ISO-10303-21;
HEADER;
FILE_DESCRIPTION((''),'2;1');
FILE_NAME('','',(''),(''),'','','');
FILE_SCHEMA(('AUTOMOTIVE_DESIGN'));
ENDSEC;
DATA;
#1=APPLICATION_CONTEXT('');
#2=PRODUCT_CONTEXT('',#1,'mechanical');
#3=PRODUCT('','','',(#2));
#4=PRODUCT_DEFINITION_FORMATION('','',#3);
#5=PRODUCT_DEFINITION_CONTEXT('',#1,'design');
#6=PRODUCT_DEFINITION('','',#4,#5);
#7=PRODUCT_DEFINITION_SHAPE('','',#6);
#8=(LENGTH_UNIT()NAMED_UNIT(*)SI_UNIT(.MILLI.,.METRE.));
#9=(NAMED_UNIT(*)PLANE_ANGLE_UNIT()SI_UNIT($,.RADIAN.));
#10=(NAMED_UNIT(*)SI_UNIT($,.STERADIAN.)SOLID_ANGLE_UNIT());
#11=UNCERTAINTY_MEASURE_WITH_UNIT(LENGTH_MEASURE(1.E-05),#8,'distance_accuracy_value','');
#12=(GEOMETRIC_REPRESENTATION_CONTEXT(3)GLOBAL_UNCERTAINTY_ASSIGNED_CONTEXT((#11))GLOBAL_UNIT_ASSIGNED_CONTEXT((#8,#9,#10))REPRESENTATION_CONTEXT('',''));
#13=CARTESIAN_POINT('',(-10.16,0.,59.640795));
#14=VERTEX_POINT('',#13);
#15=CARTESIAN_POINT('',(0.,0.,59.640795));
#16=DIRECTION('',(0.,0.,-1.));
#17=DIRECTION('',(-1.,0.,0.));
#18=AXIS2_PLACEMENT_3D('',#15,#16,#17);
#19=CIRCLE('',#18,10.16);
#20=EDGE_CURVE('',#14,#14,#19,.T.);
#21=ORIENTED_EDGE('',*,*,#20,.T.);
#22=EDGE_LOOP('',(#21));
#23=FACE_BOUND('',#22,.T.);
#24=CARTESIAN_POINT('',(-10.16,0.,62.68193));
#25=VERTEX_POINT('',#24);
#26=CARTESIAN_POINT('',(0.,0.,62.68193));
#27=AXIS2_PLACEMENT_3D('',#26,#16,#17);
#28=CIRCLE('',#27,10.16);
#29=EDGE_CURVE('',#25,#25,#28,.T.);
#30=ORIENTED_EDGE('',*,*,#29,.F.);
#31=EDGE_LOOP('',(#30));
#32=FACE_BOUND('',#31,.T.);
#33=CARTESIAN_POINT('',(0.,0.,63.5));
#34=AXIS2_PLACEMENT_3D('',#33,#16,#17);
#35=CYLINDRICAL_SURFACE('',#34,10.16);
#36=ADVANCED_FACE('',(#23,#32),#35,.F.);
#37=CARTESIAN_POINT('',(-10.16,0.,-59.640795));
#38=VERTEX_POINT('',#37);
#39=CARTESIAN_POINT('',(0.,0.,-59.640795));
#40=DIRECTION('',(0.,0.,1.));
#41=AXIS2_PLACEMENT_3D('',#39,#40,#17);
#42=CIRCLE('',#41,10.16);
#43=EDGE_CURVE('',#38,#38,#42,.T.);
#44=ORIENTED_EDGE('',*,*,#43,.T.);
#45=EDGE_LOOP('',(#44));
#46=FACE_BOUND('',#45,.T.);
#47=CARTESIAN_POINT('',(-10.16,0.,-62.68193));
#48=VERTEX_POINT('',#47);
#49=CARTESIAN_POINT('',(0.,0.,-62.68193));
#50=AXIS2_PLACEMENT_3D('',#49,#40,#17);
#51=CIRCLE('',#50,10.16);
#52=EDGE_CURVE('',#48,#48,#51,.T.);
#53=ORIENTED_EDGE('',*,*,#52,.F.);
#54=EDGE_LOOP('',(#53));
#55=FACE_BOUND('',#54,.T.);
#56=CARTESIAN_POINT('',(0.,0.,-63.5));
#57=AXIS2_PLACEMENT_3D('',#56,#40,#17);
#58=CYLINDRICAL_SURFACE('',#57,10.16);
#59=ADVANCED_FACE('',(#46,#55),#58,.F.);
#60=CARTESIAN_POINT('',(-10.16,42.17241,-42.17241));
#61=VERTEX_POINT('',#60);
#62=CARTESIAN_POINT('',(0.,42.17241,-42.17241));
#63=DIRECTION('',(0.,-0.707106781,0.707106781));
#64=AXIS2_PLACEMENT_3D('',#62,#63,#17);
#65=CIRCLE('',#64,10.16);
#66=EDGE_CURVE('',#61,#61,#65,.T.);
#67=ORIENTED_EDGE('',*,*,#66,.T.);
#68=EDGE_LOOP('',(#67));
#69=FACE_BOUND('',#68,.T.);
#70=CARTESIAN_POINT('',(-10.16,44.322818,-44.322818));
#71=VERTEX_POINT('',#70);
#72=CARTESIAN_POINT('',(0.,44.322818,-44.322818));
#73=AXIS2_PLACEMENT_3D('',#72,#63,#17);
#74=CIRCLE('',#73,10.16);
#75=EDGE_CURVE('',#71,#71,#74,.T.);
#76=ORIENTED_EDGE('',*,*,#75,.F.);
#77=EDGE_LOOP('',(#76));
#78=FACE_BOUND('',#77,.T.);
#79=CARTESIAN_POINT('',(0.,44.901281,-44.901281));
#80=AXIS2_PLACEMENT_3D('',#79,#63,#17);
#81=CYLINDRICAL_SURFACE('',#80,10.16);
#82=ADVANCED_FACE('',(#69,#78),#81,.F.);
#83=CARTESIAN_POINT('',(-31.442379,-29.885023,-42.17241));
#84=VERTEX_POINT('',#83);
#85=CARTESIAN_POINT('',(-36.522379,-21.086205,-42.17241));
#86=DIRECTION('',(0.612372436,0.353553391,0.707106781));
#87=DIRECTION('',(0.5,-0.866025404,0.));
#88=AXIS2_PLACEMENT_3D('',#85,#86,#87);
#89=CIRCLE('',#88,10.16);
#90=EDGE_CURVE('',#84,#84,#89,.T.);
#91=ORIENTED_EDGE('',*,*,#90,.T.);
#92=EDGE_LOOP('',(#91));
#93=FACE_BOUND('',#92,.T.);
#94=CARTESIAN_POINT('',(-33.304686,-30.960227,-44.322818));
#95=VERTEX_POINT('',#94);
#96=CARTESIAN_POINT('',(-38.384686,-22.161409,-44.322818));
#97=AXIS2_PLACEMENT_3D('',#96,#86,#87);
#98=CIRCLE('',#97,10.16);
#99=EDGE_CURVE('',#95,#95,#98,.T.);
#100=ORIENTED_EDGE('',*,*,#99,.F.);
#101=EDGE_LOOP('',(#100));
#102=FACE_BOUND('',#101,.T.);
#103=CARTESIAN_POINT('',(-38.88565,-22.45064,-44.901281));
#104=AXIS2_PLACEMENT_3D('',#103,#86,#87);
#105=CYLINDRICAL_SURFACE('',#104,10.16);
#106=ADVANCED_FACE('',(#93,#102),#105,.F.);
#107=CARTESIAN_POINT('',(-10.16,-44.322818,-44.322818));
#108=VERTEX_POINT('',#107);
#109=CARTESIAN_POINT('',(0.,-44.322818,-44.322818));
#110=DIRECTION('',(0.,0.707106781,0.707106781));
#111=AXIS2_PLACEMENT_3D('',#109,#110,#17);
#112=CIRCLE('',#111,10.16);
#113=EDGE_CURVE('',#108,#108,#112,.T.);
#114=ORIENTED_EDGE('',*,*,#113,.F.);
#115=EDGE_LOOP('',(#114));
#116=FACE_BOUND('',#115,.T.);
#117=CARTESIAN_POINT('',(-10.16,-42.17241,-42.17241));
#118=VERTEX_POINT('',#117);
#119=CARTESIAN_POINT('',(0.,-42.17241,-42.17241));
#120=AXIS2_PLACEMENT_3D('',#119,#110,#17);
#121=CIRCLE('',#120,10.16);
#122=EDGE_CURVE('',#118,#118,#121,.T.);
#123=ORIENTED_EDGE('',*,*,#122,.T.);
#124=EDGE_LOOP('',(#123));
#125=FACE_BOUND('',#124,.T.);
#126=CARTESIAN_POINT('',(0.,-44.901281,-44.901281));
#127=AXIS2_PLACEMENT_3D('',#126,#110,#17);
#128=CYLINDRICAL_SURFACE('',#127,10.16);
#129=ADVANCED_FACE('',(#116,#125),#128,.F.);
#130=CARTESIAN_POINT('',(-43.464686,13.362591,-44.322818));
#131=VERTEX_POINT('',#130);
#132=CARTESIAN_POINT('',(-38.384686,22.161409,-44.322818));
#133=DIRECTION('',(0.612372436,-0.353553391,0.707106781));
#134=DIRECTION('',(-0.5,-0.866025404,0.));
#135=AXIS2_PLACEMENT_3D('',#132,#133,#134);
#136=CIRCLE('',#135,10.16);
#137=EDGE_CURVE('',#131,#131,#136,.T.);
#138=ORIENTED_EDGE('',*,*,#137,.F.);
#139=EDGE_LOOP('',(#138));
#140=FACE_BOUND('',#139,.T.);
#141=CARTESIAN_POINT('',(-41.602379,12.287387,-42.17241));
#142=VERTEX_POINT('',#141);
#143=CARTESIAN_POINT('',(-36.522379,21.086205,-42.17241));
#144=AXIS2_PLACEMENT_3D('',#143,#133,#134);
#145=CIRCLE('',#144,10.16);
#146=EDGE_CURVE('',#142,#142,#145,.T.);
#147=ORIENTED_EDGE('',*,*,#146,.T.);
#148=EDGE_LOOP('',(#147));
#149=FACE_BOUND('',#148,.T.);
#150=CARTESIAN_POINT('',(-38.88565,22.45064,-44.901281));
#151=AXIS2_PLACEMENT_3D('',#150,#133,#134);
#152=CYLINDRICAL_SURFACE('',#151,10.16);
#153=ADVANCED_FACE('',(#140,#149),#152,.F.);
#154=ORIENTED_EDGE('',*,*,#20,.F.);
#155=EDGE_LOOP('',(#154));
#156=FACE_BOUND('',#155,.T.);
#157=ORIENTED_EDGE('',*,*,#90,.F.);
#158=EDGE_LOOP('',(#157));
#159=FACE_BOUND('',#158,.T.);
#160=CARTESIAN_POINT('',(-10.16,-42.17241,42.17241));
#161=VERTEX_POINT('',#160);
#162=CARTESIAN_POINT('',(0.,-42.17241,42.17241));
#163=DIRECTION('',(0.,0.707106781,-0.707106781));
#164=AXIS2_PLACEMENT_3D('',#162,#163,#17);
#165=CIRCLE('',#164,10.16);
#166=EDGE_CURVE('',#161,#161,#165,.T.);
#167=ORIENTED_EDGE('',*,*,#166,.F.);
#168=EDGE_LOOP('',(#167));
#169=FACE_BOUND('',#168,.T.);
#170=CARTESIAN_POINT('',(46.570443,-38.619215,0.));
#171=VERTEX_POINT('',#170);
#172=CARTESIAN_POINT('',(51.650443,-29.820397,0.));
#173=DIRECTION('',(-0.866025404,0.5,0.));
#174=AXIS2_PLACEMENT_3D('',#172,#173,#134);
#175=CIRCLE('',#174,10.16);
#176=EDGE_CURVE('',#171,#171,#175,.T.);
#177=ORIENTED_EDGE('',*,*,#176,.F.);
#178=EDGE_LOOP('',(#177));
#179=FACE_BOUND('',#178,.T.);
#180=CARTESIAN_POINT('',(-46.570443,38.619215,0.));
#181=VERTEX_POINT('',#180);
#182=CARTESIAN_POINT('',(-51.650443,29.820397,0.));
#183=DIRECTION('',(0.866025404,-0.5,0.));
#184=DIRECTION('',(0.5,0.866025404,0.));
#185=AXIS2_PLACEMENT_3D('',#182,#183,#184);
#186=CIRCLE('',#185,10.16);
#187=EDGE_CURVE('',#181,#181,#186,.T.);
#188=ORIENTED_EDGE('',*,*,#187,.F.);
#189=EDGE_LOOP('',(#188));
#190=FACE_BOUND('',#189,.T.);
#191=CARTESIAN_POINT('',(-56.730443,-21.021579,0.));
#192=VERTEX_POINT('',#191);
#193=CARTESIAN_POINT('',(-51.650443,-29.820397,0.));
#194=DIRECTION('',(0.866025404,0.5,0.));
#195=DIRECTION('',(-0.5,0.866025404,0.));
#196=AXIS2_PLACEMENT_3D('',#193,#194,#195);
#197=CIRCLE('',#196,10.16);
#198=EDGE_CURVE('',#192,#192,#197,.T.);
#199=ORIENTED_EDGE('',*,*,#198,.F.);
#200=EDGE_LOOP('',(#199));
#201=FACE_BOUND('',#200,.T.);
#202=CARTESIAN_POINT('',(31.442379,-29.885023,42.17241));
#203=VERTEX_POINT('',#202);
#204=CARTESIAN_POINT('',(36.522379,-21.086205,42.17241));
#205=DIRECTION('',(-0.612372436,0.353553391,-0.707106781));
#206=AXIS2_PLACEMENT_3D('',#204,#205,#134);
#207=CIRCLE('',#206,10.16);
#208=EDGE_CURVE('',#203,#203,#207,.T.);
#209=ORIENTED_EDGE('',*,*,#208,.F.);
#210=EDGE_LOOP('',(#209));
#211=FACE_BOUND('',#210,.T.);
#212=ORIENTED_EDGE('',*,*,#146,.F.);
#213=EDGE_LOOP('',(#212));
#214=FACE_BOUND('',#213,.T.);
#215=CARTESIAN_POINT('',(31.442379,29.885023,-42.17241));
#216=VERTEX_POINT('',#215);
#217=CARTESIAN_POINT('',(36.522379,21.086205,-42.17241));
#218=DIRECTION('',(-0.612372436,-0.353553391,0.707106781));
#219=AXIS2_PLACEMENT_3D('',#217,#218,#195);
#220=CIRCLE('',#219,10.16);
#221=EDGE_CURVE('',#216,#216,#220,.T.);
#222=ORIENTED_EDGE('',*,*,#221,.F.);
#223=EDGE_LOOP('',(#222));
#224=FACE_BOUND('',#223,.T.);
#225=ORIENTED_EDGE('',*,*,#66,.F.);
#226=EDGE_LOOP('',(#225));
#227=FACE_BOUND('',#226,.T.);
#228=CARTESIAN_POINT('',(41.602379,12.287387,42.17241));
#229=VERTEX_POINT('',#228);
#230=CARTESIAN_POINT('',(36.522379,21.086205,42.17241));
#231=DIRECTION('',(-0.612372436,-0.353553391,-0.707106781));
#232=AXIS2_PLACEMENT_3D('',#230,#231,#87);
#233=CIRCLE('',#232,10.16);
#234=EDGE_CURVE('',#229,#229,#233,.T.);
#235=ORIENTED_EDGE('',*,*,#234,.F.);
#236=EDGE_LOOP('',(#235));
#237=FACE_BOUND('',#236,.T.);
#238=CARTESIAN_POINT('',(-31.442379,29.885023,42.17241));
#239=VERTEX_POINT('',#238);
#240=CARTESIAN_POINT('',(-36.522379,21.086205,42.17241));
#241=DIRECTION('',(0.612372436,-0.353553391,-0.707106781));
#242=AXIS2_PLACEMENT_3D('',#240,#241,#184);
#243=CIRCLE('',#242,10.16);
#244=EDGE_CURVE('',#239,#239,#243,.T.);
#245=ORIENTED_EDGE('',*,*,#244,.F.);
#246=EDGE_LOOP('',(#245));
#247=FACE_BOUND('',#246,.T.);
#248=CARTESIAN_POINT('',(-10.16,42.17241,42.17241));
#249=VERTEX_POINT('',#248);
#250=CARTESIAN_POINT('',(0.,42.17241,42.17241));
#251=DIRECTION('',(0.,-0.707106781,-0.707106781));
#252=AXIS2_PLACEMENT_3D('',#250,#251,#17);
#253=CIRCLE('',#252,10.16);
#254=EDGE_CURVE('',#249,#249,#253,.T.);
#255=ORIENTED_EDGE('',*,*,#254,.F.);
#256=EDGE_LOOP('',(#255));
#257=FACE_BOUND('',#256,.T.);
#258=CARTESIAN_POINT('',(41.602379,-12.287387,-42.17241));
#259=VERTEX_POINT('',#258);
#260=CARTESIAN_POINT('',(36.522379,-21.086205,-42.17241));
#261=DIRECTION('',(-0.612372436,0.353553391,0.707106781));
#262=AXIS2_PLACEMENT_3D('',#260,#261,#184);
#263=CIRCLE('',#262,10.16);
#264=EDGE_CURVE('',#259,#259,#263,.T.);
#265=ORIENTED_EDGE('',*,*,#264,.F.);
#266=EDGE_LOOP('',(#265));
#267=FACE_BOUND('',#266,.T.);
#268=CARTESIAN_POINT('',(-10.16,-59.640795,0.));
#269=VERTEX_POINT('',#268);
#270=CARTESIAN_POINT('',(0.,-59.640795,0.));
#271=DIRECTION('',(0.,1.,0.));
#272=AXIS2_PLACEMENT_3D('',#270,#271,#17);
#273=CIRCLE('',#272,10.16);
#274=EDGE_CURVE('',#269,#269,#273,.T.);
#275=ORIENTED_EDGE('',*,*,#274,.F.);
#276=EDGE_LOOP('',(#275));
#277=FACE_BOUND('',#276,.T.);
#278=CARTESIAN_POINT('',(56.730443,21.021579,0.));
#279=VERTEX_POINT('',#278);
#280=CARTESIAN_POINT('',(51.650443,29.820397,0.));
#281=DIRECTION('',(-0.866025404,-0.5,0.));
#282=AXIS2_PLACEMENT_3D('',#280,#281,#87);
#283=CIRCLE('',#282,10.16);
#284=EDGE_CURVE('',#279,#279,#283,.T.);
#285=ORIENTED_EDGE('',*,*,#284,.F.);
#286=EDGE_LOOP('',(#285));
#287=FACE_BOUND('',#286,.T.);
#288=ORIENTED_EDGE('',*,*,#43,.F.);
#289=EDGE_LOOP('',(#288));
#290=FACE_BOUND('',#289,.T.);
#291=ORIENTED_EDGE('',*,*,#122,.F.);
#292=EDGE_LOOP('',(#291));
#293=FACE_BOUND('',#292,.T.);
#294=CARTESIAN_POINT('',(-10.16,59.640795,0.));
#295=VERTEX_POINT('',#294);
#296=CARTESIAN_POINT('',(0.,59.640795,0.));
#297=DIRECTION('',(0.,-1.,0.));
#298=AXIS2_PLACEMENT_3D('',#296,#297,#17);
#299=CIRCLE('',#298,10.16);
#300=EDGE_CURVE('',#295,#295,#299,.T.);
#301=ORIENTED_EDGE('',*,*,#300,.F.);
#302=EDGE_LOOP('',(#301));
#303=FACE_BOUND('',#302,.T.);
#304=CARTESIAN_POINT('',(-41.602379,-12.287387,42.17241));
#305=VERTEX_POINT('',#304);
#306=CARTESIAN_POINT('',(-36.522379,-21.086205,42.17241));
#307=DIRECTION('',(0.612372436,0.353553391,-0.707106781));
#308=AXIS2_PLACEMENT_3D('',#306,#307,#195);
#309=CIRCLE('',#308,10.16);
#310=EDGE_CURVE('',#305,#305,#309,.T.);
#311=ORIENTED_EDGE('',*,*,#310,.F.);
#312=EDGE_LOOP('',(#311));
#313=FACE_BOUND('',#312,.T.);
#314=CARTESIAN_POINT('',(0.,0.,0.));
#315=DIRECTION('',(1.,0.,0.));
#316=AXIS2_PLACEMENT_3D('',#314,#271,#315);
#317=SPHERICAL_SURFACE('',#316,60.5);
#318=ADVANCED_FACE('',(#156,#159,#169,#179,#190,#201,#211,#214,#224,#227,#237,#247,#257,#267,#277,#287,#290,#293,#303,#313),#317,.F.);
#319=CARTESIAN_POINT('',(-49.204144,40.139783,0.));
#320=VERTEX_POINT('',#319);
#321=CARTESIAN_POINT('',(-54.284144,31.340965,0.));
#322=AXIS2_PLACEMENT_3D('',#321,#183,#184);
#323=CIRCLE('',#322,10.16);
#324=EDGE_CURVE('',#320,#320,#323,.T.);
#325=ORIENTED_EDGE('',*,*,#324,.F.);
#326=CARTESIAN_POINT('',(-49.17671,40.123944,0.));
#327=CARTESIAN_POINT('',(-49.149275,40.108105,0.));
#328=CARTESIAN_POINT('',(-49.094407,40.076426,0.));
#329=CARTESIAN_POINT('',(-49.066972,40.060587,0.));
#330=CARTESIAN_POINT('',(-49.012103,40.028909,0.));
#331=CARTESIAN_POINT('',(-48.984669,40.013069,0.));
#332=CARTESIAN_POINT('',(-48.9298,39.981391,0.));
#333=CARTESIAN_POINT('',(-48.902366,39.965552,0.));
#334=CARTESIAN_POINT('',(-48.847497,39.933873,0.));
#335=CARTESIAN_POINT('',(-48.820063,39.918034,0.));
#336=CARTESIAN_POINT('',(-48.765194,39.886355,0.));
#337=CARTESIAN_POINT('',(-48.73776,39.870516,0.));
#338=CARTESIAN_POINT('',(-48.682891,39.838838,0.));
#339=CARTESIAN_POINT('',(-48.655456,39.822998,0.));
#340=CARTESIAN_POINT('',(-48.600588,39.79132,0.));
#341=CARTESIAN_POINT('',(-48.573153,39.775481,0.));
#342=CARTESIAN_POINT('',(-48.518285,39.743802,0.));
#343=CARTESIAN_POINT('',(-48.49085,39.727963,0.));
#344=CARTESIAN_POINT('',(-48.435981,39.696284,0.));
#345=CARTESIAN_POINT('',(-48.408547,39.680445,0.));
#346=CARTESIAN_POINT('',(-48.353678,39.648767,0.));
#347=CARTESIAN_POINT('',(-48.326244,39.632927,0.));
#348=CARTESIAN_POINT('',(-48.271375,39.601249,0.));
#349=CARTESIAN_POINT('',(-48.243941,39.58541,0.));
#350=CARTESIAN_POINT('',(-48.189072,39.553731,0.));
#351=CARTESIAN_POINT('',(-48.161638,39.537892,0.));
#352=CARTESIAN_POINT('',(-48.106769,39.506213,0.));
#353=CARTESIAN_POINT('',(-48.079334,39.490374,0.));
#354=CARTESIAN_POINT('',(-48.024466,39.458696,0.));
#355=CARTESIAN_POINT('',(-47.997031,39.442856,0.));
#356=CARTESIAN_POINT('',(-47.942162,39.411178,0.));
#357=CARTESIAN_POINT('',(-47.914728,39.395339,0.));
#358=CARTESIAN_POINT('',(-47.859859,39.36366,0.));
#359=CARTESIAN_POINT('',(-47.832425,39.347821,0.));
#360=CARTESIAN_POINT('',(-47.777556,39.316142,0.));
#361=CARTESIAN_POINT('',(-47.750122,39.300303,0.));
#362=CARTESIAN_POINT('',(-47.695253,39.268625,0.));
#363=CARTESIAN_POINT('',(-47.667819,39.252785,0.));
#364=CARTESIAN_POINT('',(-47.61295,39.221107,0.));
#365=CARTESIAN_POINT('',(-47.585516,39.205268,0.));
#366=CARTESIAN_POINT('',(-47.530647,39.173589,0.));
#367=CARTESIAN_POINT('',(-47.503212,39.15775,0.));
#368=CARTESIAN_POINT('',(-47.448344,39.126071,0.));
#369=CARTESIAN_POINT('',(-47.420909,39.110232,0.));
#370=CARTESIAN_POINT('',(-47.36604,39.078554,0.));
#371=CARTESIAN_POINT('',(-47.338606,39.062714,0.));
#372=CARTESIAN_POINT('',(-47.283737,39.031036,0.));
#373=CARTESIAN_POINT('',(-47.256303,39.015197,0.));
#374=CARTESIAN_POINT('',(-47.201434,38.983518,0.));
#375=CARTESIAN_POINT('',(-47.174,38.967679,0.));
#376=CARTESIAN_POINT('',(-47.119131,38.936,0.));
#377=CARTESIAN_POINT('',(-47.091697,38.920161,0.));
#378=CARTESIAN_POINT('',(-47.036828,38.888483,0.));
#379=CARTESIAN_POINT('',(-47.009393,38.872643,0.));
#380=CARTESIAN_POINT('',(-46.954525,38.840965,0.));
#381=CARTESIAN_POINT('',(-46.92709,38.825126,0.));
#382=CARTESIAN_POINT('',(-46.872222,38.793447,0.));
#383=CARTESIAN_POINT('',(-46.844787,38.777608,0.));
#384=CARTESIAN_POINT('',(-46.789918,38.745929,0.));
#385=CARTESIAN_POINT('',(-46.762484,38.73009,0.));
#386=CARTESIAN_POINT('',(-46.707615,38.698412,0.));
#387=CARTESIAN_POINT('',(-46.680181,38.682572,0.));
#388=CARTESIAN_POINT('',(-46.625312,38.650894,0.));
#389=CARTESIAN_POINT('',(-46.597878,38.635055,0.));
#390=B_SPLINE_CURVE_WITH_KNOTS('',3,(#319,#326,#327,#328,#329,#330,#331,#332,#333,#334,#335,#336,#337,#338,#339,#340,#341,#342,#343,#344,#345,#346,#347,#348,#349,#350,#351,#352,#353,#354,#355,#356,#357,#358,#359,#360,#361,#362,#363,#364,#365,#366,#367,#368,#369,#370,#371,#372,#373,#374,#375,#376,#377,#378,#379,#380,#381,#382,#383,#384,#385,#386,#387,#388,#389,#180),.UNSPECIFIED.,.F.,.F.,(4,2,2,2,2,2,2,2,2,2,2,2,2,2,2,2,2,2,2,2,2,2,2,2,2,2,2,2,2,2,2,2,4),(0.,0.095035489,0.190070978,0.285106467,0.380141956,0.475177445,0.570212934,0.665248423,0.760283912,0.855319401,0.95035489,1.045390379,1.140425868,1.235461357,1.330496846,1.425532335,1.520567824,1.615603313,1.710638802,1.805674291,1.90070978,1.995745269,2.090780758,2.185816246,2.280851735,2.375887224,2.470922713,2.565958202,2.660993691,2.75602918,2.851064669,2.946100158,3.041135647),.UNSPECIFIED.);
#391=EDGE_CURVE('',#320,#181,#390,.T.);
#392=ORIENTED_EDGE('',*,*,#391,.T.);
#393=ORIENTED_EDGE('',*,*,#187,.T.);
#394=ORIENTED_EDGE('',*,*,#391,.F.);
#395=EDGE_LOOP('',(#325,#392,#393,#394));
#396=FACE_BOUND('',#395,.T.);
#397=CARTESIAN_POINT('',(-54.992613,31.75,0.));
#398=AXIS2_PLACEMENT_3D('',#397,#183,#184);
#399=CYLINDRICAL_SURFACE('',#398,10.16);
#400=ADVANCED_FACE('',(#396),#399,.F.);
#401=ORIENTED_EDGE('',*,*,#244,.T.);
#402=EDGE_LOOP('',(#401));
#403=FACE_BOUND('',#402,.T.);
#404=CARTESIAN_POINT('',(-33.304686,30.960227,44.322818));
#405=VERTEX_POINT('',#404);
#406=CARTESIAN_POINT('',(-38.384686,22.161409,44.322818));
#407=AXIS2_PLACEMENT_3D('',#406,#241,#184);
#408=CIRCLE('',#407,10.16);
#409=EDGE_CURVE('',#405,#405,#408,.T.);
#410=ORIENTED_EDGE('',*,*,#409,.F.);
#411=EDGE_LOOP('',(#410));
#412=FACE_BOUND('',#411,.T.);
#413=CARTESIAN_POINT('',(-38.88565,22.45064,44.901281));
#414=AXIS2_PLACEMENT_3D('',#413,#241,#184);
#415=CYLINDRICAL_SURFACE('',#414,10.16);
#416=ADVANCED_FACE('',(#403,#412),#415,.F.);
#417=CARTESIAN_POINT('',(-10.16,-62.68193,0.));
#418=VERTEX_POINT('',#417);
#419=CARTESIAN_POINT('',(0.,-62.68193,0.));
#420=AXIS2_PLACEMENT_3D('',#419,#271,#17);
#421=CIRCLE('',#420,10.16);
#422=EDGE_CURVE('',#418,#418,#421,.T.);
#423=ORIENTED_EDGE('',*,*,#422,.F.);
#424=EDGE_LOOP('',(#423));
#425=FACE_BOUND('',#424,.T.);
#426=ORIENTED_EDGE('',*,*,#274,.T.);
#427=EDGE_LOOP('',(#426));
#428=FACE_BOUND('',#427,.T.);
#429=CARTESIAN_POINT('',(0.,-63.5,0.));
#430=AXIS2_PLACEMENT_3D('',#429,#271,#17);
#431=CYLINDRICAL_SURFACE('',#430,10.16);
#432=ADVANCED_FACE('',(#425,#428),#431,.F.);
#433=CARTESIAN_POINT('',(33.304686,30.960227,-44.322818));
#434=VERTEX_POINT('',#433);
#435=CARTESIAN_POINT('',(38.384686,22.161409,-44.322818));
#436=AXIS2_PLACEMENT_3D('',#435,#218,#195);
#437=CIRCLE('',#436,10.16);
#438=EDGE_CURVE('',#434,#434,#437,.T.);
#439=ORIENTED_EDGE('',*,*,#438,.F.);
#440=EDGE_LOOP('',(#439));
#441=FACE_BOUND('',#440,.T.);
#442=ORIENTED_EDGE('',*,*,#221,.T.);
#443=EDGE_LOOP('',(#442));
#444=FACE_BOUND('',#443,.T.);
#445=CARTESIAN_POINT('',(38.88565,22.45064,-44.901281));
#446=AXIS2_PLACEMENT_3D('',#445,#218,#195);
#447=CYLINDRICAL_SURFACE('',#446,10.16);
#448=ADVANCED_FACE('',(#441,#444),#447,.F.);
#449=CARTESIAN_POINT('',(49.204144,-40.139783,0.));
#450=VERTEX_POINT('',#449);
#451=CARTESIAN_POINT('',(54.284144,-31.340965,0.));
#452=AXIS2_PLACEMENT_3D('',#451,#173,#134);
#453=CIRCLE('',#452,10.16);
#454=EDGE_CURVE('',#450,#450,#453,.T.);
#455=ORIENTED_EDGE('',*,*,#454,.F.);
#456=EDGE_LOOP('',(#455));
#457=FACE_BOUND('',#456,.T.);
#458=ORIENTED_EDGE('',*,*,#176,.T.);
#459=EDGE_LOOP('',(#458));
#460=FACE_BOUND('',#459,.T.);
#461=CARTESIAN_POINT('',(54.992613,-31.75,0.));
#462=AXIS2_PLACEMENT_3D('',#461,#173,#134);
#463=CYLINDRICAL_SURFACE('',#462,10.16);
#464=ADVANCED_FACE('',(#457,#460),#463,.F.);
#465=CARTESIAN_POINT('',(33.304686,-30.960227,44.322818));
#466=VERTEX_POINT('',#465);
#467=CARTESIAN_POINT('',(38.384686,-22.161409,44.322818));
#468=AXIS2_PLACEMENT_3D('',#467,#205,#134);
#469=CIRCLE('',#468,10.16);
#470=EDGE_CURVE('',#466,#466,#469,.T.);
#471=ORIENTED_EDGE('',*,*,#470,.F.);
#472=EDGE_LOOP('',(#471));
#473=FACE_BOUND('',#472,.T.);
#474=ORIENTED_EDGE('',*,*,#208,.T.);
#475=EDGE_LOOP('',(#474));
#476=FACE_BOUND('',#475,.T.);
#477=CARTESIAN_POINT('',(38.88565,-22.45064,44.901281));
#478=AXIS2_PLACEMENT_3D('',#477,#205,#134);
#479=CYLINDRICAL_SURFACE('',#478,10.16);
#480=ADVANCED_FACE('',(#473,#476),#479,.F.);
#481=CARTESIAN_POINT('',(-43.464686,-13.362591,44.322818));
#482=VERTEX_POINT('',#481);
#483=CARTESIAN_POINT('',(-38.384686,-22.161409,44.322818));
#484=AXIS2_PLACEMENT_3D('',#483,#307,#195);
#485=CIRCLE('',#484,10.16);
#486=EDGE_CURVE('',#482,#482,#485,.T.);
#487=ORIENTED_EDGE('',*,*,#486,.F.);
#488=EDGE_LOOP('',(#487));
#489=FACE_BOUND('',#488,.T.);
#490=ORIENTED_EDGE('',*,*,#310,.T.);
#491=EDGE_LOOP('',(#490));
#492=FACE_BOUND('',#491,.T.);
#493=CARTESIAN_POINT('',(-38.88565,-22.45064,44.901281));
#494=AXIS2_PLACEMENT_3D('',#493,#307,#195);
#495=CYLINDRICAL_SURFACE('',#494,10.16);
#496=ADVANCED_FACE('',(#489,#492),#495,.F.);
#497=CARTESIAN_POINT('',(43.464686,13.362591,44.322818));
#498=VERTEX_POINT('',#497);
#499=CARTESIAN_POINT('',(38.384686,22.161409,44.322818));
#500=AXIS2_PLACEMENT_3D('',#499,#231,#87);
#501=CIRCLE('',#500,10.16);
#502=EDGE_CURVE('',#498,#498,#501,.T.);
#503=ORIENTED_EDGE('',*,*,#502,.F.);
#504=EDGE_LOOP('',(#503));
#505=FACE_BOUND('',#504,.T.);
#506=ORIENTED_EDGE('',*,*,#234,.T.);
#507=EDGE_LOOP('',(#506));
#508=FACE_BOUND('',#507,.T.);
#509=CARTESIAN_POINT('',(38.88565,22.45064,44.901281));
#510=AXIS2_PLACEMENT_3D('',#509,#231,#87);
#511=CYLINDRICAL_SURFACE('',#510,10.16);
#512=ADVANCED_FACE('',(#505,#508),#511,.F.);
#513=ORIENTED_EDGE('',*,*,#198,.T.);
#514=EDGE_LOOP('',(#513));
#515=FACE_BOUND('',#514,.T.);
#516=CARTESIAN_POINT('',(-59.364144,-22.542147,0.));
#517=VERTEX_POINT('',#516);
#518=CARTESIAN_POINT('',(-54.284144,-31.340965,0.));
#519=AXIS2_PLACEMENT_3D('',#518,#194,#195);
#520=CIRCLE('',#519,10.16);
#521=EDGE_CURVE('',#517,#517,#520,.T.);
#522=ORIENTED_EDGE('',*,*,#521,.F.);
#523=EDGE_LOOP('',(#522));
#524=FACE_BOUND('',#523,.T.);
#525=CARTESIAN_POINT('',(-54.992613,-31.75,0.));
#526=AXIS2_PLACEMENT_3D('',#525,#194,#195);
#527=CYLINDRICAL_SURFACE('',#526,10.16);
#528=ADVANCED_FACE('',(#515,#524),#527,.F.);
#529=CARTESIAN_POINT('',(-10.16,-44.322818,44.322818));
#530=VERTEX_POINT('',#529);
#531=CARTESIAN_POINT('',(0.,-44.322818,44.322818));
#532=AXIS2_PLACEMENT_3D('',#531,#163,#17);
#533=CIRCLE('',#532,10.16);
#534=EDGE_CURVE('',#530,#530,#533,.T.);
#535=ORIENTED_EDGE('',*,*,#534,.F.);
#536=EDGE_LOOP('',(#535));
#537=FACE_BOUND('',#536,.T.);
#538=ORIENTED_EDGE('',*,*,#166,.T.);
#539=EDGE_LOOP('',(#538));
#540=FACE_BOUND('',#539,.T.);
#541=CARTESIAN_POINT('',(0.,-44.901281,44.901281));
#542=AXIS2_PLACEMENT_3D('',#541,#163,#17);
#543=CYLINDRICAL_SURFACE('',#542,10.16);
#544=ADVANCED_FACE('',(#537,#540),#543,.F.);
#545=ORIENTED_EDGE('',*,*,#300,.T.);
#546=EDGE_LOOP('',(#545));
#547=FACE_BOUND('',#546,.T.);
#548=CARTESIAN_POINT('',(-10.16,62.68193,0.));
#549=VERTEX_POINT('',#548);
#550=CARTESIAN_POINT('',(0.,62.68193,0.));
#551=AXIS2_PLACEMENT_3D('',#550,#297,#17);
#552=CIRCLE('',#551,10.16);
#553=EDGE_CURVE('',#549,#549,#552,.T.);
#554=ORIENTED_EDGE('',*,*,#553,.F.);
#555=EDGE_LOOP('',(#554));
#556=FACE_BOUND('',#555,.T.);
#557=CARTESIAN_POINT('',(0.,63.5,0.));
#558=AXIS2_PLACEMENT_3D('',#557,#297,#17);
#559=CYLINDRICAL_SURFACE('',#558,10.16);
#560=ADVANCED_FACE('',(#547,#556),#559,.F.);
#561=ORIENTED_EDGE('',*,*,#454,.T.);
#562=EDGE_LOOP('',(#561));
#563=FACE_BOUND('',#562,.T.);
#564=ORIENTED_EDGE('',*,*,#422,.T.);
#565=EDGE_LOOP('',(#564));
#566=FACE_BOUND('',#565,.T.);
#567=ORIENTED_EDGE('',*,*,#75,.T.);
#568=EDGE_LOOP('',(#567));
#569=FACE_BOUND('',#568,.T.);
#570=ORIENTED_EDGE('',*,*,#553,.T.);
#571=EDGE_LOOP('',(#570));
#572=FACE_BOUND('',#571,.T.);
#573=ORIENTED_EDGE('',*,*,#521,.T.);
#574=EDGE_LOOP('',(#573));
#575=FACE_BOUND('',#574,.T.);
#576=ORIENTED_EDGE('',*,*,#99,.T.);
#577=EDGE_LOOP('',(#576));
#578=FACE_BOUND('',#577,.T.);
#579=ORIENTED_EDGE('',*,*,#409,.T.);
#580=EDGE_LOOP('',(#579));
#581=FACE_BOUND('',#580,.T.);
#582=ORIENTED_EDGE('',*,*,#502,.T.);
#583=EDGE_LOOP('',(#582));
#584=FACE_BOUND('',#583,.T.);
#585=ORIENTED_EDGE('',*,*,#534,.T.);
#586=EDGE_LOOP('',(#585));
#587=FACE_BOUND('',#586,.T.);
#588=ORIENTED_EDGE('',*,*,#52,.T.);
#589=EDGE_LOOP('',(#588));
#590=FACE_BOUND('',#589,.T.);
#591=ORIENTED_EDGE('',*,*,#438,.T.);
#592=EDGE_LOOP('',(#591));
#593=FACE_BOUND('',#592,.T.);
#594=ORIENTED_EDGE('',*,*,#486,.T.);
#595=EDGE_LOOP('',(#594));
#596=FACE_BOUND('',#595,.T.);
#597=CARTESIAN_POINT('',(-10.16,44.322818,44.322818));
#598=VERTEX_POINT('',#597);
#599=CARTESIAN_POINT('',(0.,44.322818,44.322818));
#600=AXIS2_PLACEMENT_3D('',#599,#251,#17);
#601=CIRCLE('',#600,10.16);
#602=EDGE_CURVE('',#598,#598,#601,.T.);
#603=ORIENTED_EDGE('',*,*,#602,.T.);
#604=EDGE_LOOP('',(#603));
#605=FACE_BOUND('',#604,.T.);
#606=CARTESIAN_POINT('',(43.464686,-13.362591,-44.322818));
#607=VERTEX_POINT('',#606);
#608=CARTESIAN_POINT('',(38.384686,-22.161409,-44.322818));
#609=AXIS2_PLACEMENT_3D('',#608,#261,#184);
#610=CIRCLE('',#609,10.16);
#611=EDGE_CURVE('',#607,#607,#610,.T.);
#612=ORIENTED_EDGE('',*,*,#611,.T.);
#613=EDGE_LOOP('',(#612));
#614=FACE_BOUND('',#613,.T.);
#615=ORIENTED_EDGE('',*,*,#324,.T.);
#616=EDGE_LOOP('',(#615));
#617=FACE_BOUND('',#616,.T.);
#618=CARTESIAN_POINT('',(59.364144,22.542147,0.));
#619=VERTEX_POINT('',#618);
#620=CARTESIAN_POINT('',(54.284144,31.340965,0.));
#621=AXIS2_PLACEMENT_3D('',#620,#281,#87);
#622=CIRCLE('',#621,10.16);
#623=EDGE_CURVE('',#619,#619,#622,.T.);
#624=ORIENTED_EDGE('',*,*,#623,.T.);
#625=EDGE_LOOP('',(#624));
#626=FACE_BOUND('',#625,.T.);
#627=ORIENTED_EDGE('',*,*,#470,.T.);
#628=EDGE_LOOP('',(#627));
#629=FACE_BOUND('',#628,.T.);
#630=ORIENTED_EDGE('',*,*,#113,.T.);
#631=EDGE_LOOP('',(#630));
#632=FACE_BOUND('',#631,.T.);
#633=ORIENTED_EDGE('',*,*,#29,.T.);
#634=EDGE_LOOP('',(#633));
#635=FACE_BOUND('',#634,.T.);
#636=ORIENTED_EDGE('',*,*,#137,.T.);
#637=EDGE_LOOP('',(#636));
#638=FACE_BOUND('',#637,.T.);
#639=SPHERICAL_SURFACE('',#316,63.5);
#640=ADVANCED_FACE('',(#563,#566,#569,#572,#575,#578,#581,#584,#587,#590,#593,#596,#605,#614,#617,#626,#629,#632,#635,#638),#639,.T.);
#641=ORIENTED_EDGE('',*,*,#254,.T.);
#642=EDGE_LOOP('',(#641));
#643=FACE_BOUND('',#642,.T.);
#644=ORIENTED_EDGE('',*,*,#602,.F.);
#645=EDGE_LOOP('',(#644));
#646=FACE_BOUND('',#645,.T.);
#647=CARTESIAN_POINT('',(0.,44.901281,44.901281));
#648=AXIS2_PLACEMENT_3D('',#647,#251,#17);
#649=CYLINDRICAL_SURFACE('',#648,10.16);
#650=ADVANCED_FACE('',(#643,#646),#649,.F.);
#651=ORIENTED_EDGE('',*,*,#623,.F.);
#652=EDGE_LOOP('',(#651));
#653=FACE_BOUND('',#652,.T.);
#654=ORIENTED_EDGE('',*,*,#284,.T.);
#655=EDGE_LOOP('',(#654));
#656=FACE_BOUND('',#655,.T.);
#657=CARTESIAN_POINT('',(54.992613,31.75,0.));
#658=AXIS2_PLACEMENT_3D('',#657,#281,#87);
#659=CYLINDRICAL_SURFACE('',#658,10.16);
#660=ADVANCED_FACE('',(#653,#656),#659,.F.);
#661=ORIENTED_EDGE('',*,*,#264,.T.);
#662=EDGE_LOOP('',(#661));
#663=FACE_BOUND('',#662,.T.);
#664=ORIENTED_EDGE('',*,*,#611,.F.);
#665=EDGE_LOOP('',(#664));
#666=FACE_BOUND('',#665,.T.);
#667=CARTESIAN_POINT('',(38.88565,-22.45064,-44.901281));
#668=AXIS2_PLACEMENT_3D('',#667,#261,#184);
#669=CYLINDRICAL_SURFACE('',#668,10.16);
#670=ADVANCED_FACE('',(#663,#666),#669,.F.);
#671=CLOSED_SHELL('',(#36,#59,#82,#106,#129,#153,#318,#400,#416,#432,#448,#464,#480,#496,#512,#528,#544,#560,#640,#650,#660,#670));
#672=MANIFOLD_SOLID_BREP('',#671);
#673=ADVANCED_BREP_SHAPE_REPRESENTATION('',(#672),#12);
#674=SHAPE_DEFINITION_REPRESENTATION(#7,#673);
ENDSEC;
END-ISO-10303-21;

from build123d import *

# Parameters (mm, degrees)
SKETCH2_R                     = 10.16
CUT_EXTRUDE1_DEPTH            = 110.985226281
CIRPATTERN29_COUNT            = 8
CIRPATTERN30_COPY_1_SKETCH_R  = 10.16
CIRPATTERN30_COPY_1_DEPTH     = 110.985226281
CIRPATTERN30_COPY_2_SKETCH_R  = 10.16
CIRPATTERN30_COPY_2_DEPTH     = 110.985226281
CIRPATTERN30_COPY_3_SKETCH_R  = 10.16
CIRPATTERN30_COPY_3_DEPTH     = 110.985226281
CIRPATTERN30_COPY_4_SKETCH_R  = 10.16
CIRPATTERN30_COPY_4_DEPTH     = 110.985226281
CIRPATTERN30_COPY_5_SKETCH_R  = 10.16
CIRPATTERN30_COPY_5_DEPTH     = 110.985226281
CIRPATTERN30_COPY_6_SKETCH_R  = 10.16
CIRPATTERN30_COPY_6_DEPTH     = 110.985226281
CIRPATTERN30_COPY_7_SKETCH_R  = 10.16
CIRPATTERN30_COPY_7_DEPTH     = 110.985226281
CIRPATTERN30_COPY_8_SKETCH_R  = 10.16
CIRPATTERN30_COPY_8_DEPTH     = 110.985226281
CIRPATTERN30_COPY_9_SKETCH_R  = 10.16
CIRPATTERN30_COPY_9_DEPTH     = 110.985226281
CIRPATTERN30_COPY_10_SKETCH_R = 10.16
CIRPATTERN30_COPY_10_DEPTH    = 110.985226281
CIRPATTERN30_COPY_11_SKETCH_R = 10.16
CIRPATTERN30_COPY_11_DEPTH    = 110.985226281
CIRPATTERN30_COPY_12_SKETCH_R = 10.16
CIRPATTERN30_COPY_12_DEPTH    = 110.985226281
CIRPATTERN30_COPY_13_SKETCH_R = 10.16
CIRPATTERN30_COPY_13_DEPTH    = 110.985226281
CIRPATTERN30_COPY_14_SKETCH_R = 10.16
CIRPATTERN30_COPY_14_DEPTH    = 110.985226281
CIRPATTERN30_COPY_15_SKETCH_R = 10.16
CIRPATTERN30_COPY_15_DEPTH    = 110.985226281
CIRPATTERN30_COPY_16_SKETCH_R = 10.16
CIRPATTERN30_COPY_16_DEPTH    = 110.985226281
CIRPATTERN30_COPY_17_SKETCH_R = 10.16
CIRPATTERN30_COPY_17_DEPTH    = 110.985226281
CIRPATTERN30_COPY_18_SKETCH_R = 10.16
CIRPATTERN30_COPY_18_DEPTH    = 110.985226281
CIRPATTERN30_COPY_19_SKETCH_R = 10.16
CIRPATTERN30_COPY_19_DEPTH    = 110.985226281
CIRPATTERN30_COPY_20_SKETCH_R = 10.16
CIRPATTERN30_COPY_20_DEPTH    = 110.985226281
CIRPATTERN30_COPY_21_SKETCH_R = 10.16
CIRPATTERN30_COPY_21_DEPTH    = 110.985226281
CIRPATTERN30_COPY_22_SKETCH_R = 10.16
CIRPATTERN30_COPY_22_DEPTH    = 110.985226281
CIRPATTERN30_COPY_23_SKETCH_R = 10.16
CIRPATTERN30_COPY_23_DEPTH    = 110.985226281
CIRPATTERN30_COPY_24_SKETCH_R = 10.16
CIRPATTERN30_COPY_24_DEPTH    = 110.985226281
CIRPATTERN30_COPY_25_SKETCH_R = 10.16
CIRPATTERN30_COPY_25_DEPTH    = 110.985226281
CIRPATTERN30_COPY_26_SKETCH_R = 10.16
CIRPATTERN30_COPY_26_DEPTH    = 110.985226281
CIRPATTERN30_COPY_27_SKETCH_R = 10.16
CIRPATTERN30_COPY_27_DEPTH    = 110.985226281
CIRPATTERN30_COPY_28_SKETCH_R = 10.16
CIRPATTERN30_COPY_28_DEPTH    = 110.985226281
CIRPATTERN30_COPY_29_SKETCH_R = 10.16
CIRPATTERN30_COPY_29_DEPTH    = 110.985226281
CIRPATTERN30_COPY_30_SKETCH_R = 10.16
CIRPATTERN30_COPY_30_DEPTH    = 110.985226281
CIRPATTERN30_COPY_31_SKETCH_R = 10.16
CIRPATTERN30_COPY_31_DEPTH    = 110.985226281
CIRPATTERN30_COPY_32_SKETCH_R = 10.16
CIRPATTERN30_COPY_32_DEPTH    = 110.985226281
CIRPATTERN30_COPY_33_SKETCH_R = 10.16
CIRPATTERN30_COPY_33_DEPTH    = 110.985226281
CIRPATTERN30_COPY_34_SKETCH_R = 10.16
CIRPATTERN30_COPY_34_DEPTH    = 110.985226281
CIRPATTERN30_COPY_35_SKETCH_R = 10.16
CIRPATTERN30_COPY_35_DEPTH    = 110.985226281
CIRPATTERN30_COPY_36_SKETCH_R = 10.16
CIRPATTERN30_COPY_36_DEPTH    = 110.985226281
CIRPATTERN30_COPY_37_SKETCH_R = 10.16
CIRPATTERN30_COPY_37_DEPTH    = 110.985226281
CIRPATTERN30_COPY_38_SKETCH_R = 10.16
CIRPATTERN30_COPY_38_DEPTH    = 110.985226281
CIRPATTERN30_COPY_39_SKETCH_R = 10.16
CIRPATTERN30_COPY_39_DEPTH    = 110.985226281
CIRPATTERN30_COPY_40_SKETCH_R = 10.16
CIRPATTERN30_COPY_40_DEPTH    = 110.985226281


with BuildPart() as part:
    # Sketch1 → Revolve-Thin1 (revolve)
    with BuildSketch(Plane.XY):
        with BuildLine():
            ThreePointArc((0, 63.5), (63.5, 0), (0, -63.5))
            Line((0, -63.5), (0, -60.5))
            ThreePointArc((0, -60.5), (60.5, 0), (0, 60.5))
            Line((0, 60.5), (0, 63.5))
        make_face()
    revolve(axis=Axis((0, 63.5, 0), (0, -1, 0)))

    # Sketch2 → Cut-Extrude1 (cut, through all)
    with BuildSketch(Plane.XY):
        with Locations(Location((0, 0, 0), (0, 0, 180))):
            Circle(SKETCH2_R)
    cut_extrude1 = extrude(amount=CUT_EXTRUDE1_DEPTH, mode=Mode.SUBTRACT)

    # CirPattern29: Cut-Extrude1 ×8 about axis
    cirpattern29_axis = Axis((0, 0, 0), (-1, 0, 0))
    for i in range(1, CIRPATTERN29_COUNT):
        add(cut_extrude1.rotate(cirpattern29_axis, i * 360 / CIRPATTERN29_COUNT), mode=Mode.SUBTRACT)

    # CirPattern30 copy 1 sketch → CirPattern30 copy 1 (cut, through all)
    with BuildSketch(Plane(origin=(0, 0, 0), x_dir=(0.5000000000000002, -0.8660254037844386, 0), z_dir=(0.6123724356957945, 0.35355339059327384, 0.7071067811865476))):
        with Locations(Location((0, 0, 0), (0, 0, 180))):
            Circle(CIRPATTERN30_COPY_1_SKETCH_R)
    extrude(amount=CIRPATTERN30_COPY_1_DEPTH, mode=Mode.SUBTRACT)

    # CirPattern30 copy 2 sketch → CirPattern30 copy 2 (cut, through all)
    with BuildSketch(Plane(origin=(0, 0, 0), x_dir=(-0.4999999999999997, -0.8660254037844387, 0), z_dir=(0.6123724356957945, -0.3535533905932735, 0.7071067811865476))):
        with Locations(Location((0, 0, 0), (0, 0, 180))):
            Circle(CIRPATTERN30_COPY_2_SKETCH_R)
    extrude(amount=CIRPATTERN30_COPY_2_DEPTH, mode=Mode.SUBTRACT)

    # CirPattern30 copy 3 sketch → CirPattern30 copy 3 (cut, through all)
    with BuildSketch(Plane(origin=(0, 0, 0), x_dir=(-1, 0, 0), z_dir=(0, -0.7071067811865475, 0.7071067811865476))):
        with Locations(Location((0, 0, 0), (0, 0, 180))):
            Circle(CIRPATTERN30_COPY_3_SKETCH_R)
    extrude(amount=CIRPATTERN30_COPY_3_DEPTH, mode=Mode.SUBTRACT)

    # CirPattern30 copy 4 sketch → CirPattern30 copy 4 (cut, through all)
    with BuildSketch(Plane(origin=(0, 0, 0), x_dir=(-0.5000000000000006, 0.8660254037844384, 0), z_dir=(-0.6123724356957942, -0.3535533905932741, 0.7071067811865476))):
        with Locations(Location((0, 0, 0), (0, 0, 180))):
            Circle(CIRPATTERN30_COPY_4_SKETCH_R)
    extrude(amount=CIRPATTERN30_COPY_4_DEPTH, mode=Mode.SUBTRACT)

    # CirPattern30 copy 5 sketch → CirPattern30 copy 5 (cut, through all)
    with BuildSketch(Plane(origin=(0, 0, 0), x_dir=(0.5, 0.8660254037844386, 0), z_dir=(-0.6123724356957945, 0.35355339059327373, 0.7071067811865476))):
        with Locations(Location((0, 0, 0), (0, 0, 180))):
            Circle(CIRPATTERN30_COPY_5_SKETCH_R)
    extrude(amount=CIRPATTERN30_COPY_5_DEPTH, mode=Mode.SUBTRACT)

    # CirPattern30 copy 6 sketch → CirPattern30 copy 6 (cut, through all)
    with BuildSketch(Plane(origin=(0, 0, 0), x_dir=(0.5000000000000002, -0.8660254037844385, 0), z_dir=(0.8660254037844385, 0.5000000000000002, 0))):
        with Locations(Location((0, 0, 0), (0, 0, 180))):
            Circle(CIRPATTERN30_COPY_6_SKETCH_R)
    extrude(amount=CIRPATTERN30_COPY_6_DEPTH, mode=Mode.SUBTRACT)

    # CirPattern30 copy 7 sketch → CirPattern30 copy 7 (cut, through all)
    with BuildSketch(Plane(origin=(0, 0, 0), x_dir=(-0.49999999999999967, -0.8660254037844388, 0), z_dir=(0.8660254037844388, -0.49999999999999967, 0))):
        with Locations(Location((0, 0, 0), (0, 0, 180))):
            Circle(CIRPATTERN30_COPY_7_SKETCH_R)
    extrude(amount=CIRPATTERN30_COPY_7_DEPTH, mode=Mode.SUBTRACT)

    # CirPattern30 copy 8 sketch → CirPattern30 copy 8 (cut, through all)
    with BuildSketch(Plane(origin=(0, 0, 0), x_dir=(-1, 0, 0), z_dir=(0, -1, 0))):
        with Locations(Location((0, 0, 0), (0, 0, 180))):
            Circle(CIRPATTERN30_COPY_8_SKETCH_R)
    extrude(amount=CIRPATTERN30_COPY_8_DEPTH, mode=Mode.SUBTRACT)

    # CirPattern30 copy 9 sketch → CirPattern30 copy 9 (cut, through all)
    with BuildSketch(Plane(origin=(0, 0, 0), x_dir=(-0.5000000000000006, 0.8660254037844383, 0), z_dir=(-0.8660254037844383, -0.5000000000000006, 0))):
        with Locations(Location((0, 0, 0), (0, 0, 180))):
            Circle(CIRPATTERN30_COPY_9_SKETCH_R)
    extrude(amount=CIRPATTERN30_COPY_9_DEPTH, mode=Mode.SUBTRACT)

    # CirPattern30 copy 10 sketch → CirPattern30 copy 10 (cut, through all)
    with BuildSketch(Plane(origin=(0, 0, 0), x_dir=(0.5, 0.8660254037844387, 0), z_dir=(-0.8660254037844387, 0.5, 0))):
        with Locations(Location((0, 0, 0), (0, 0, 180))):
            Circle(CIRPATTERN30_COPY_10_SKETCH_R)
    extrude(amount=CIRPATTERN30_COPY_10_DEPTH, mode=Mode.SUBTRACT)

    # CirPattern30 copy 11 sketch → CirPattern30 copy 11 (cut, through all)
    with BuildSketch(Plane(origin=(0, 0, 0), x_dir=(0.5000000000000002, -0.8660254037844386, 0), z_dir=(0.6123724356957945, 0.353553390593274, -0.7071067811865475))):
        with Locations(Location((0, 0, 0), (0, 0, 180))):
            Circle(CIRPATTERN30_COPY_11_SKETCH_R)
    extrude(amount=CIRPATTERN30_COPY_11_DEPTH, mode=Mode.SUBTRACT)

    # CirPattern30 copy 12 sketch → CirPattern30 copy 12 (cut, through all)
    with BuildSketch(Plane(origin=(0, 0, 0), x_dir=(-0.4999999999999997, -0.8660254037844387, 0), z_dir=(0.6123724356957947, -0.35355339059327345, -0.7071067811865475))):
        with Locations(Location((0, 0, 0), (0, 0, 180))):
            Circle(CIRPATTERN30_COPY_12_SKETCH_R)
    extrude(amount=CIRPATTERN30_COPY_12_DEPTH, mode=Mode.SUBTRACT)

    # CirPattern30 copy 13 sketch → CirPattern30 copy 13 (cut, through all)
    with BuildSketch(Plane(origin=(0, 0, 0), x_dir=(-1, 0, 0), z_dir=(0, -0.7071067811865476, -0.7071067811865475))):
        with Locations(Location((0, 0, 0), (0, 0, 180))):
            Circle(CIRPATTERN30_COPY_13_SKETCH_R)
    extrude(amount=CIRPATTERN30_COPY_13_DEPTH, mode=Mode.SUBTRACT)

    # CirPattern30 copy 14 sketch → CirPattern30 copy 14 (cut, through all)
    with BuildSketch(Plane(origin=(0, 0, 0), x_dir=(-0.5000000000000006, 0.8660254037844384, 0), z_dir=(-0.6123724356957942, -0.3535533905932743, -0.7071067811865475))):
        with Locations(Location((0, 0, 0), (0, 0, 180))):
            Circle(CIRPATTERN30_COPY_14_SKETCH_R)
    extrude(amount=CIRPATTERN30_COPY_14_DEPTH, mode=Mode.SUBTRACT)

    # CirPattern30 copy 15 sketch → CirPattern30 copy 15 (cut, through all)
    with BuildSketch(Plane(origin=(0, 0, 0), x_dir=(0.5, 0.8660254037844386, 0), z_dir=(-0.6123724356957947, 0.3535533905932737, -0.7071067811865475))):
        with Locations(Location((0, 0, 0), (0, 0, 180))):
            Circle(CIRPATTERN30_COPY_15_SKETCH_R)
    extrude(amount=CIRPATTERN30_COPY_15_DEPTH, mode=Mode.SUBTRACT)

    # CirPattern30 copy 16 sketch → CirPattern30 copy 16 (cut, through all)
    with BuildSketch(Plane(origin=(0, 0, 0), x_dir=(0.5000000000000001, -0.8660254037844386, 0), z_dir=(0, 0, -1))):
        with Locations(Location((0, 0, 0), (0, 0, 180))):
            Circle(CIRPATTERN30_COPY_16_SKETCH_R)
    extrude(amount=CIRPATTERN30_COPY_16_DEPTH, mode=Mode.SUBTRACT)

    # CirPattern30 copy 17 sketch → CirPattern30 copy 17 (cut, through all)
    with BuildSketch(Plane(origin=(0, 0, 0), x_dir=(-0.4999999999999998, -0.8660254037844387, 0), z_dir=(0, 0, -1))):
        with Locations(Location((0, 0, 0), (0, 0, 180))):
            Circle(CIRPATTERN30_COPY_17_SKETCH_R)
    extrude(amount=CIRPATTERN30_COPY_17_DEPTH, mode=Mode.SUBTRACT)

    # CirPattern30 copy 18 sketch → CirPattern30 copy 18 (cut, through all)
    with BuildSketch(Plane(origin=(0, 0, 0), x_dir=(-1, 0, 0), z_dir=(0, 0, -1))):
        with Locations(Location((0, 0, 0), (0, 0, 180))):
            Circle(CIRPATTERN30_COPY_18_SKETCH_R)
    extrude(amount=CIRPATTERN30_COPY_18_DEPTH, mode=Mode.SUBTRACT)

    # CirPattern30 copy 19 sketch → CirPattern30 copy 19 (cut, through all)
    with BuildSketch(Plane(origin=(0, 0, 0), x_dir=(-0.5000000000000004, 0.8660254037844384, 0), z_dir=(0, 0, -1))):
        with Locations(Location((0, 0, 0), (0, 0, 180))):
            Circle(CIRPATTERN30_COPY_19_SKETCH_R)
    extrude(amount=CIRPATTERN30_COPY_19_DEPTH, mode=Mode.SUBTRACT)

    # CirPattern30 copy 20 sketch → CirPattern30 copy 20 (cut, through all)
    with BuildSketch(Plane(origin=(0, 0, 0), x_dir=(0.5000000000000001, 0.8660254037844386, 0), z_dir=(0, 0, -1))):
        with Locations(Location((0, 0, 0), (0, 0, 180))):
            Circle(CIRPATTERN30_COPY_20_SKETCH_R)
    extrude(amount=CIRPATTERN30_COPY_20_DEPTH, mode=Mode.SUBTRACT)

    # CirPattern30 copy 21 sketch → CirPattern30 copy 21 (cut, through all)
    with BuildSketch(Plane(origin=(0, 0, 0), x_dir=(0.5, -0.8660254037844386, 0), z_dir=(-0.6123724356957946, -0.3535533905932736, -0.7071067811865477))):
        with Locations(Location((0, 0, 0), (0, 0, 180))):
            Circle(CIRPATTERN30_COPY_21_SKETCH_R)
    extrude(amount=CIRPATTERN30_COPY_21_DEPTH, mode=Mode.SUBTRACT)

    # CirPattern30 copy 22 sketch → CirPattern30 copy 22 (cut, through all)
    with BuildSketch(Plane(origin=(0, 0, 0), x_dir=(-0.49999999999999983, -0.8660254037844387, 0), z_dir=(-0.6123724356957944, 0.35355339059327373, -0.7071067811865477))):
        with Locations(Location((0, 0, 0), (0, 0, 180))):
            Circle(CIRPATTERN30_COPY_22_SKETCH_R)
    extrude(amount=CIRPATTERN30_COPY_22_DEPTH, mode=Mode.SUBTRACT)

    # CirPattern30 copy 23 sketch → CirPattern30 copy 23 (cut, through all)
    with BuildSketch(Plane(origin=(0, 0, 0), x_dir=(-1, 0, 0), z_dir=(0, 0.7071067811865475, -0.7071067811865477))):
        with Locations(Location((0, 0, 0), (0, 0, 180))):
            Circle(CIRPATTERN30_COPY_23_SKETCH_R)
    extrude(amount=CIRPATTERN30_COPY_23_DEPTH, mode=Mode.SUBTRACT)

    # CirPattern30 copy 24 sketch → CirPattern30 copy 24 (cut, through all)
    with BuildSketch(Plane(origin=(0, 0, 0), x_dir=(-0.5000000000000003, 0.8660254037844384, 0), z_dir=(0.6123724356957944, 0.3535533905932739, -0.7071067811865477))):
        with Locations(Location((0, 0, 0), (0, 0, 180))):
            Circle(CIRPATTERN30_COPY_24_SKETCH_R)
    extrude(amount=CIRPATTERN30_COPY_24_DEPTH, mode=Mode.SUBTRACT)

    # CirPattern30 copy 25 sketch → CirPattern30 copy 25 (cut, through all)
    with BuildSketch(Plane(origin=(0, 0, 0), x_dir=(0.5000000000000002, 0.8660254037844386, 0), z_dir=(0.6123724356957944, -0.35355339059327395, -0.7071067811865477))):
        with Locations(Location((0, 0, 0), (0, 0, 180))):
            Circle(CIRPATTERN30_COPY_25_SKETCH_R)
    extrude(amount=CIRPATTERN30_COPY_25_DEPTH, mode=Mode.SUBTRACT)

    # CirPattern30 copy 26 sketch → CirPattern30 copy 26 (cut, through all)
    with BuildSketch(Plane(origin=(0, 0, 0), x_dir=(0.5, -0.8660254037844387, 0), z_dir=(-0.8660254037844387, -0.5, 0))):
        with Locations(Location((0, 0, 0), (0, 0, 180))):
            Circle(CIRPATTERN30_COPY_26_SKETCH_R)
    extrude(amount=CIRPATTERN30_COPY_26_DEPTH, mode=Mode.SUBTRACT)

    # CirPattern30 copy 27 sketch → CirPattern30 copy 27 (cut, through all)
    with BuildSketch(Plane(origin=(0, 0, 0), x_dir=(-0.4999999999999999, -0.8660254037844386, 0), z_dir=(-0.8660254037844386, 0.4999999999999999, 0))):
        with Locations(Location((0, 0, 0), (0, 0, 180))):
            Circle(CIRPATTERN30_COPY_27_SKETCH_R)
    extrude(amount=CIRPATTERN30_COPY_27_DEPTH, mode=Mode.SUBTRACT)

    # CirPattern30 copy 28 sketch → CirPattern30 copy 28 (cut, through all)
    with BuildSketch(Plane(origin=(0, 0, 0), x_dir=(-1, 0, 0), z_dir=(0, 1, 0))):
        with Locations(Location((0, 0, 0), (0, 0, 180))):
            Circle(CIRPATTERN30_COPY_28_SKETCH_R)
    extrude(amount=CIRPATTERN30_COPY_28_DEPTH, mode=Mode.SUBTRACT)

    # CirPattern30 copy 29 sketch → CirPattern30 copy 29 (cut, through all)
    with BuildSketch(Plane(origin=(0, 0, 0), x_dir=(-0.5000000000000003, 0.8660254037844385, 0), z_dir=(0.8660254037844385, 0.5000000000000003, 0))):
        with Locations(Location((0, 0, 0), (0, 0, 180))):
            Circle(CIRPATTERN30_COPY_29_SKETCH_R)
    extrude(amount=CIRPATTERN30_COPY_29_DEPTH, mode=Mode.SUBTRACT)

    # CirPattern30 copy 30 sketch → CirPattern30 copy 30 (cut, through all)
    with BuildSketch(Plane(origin=(0, 0, 0), x_dir=(0.5000000000000002, 0.8660254037844385, 0), z_dir=(0.8660254037844385, -0.5000000000000002, 0))):
        with Locations(Location((0, 0, 0), (0, 0, 180))):
            Circle(CIRPATTERN30_COPY_30_SKETCH_R)
    extrude(amount=CIRPATTERN30_COPY_30_DEPTH, mode=Mode.SUBTRACT)

    # CirPattern30 copy 31 sketch → CirPattern30 copy 31 (cut, through all)
    with BuildSketch(Plane(origin=(0, 0, 0), x_dir=(0.5, -0.8660254037844386, 0), z_dir=(-0.6123724356957946, -0.35355339059327384, 0.7071067811865474))):
        with Locations(Location((0, 0, 0), (0, 0, 180))):
            Circle(CIRPATTERN30_COPY_31_SKETCH_R)
    extrude(amount=CIRPATTERN30_COPY_31_DEPTH, mode=Mode.SUBTRACT)

    # CirPattern30 copy 32 sketch → CirPattern30 copy 32 (cut, through all)
    with BuildSketch(Plane(origin=(0, 0, 0), x_dir=(-0.49999999999999983, -0.8660254037844387, 0), z_dir=(-0.6123724356957947, 0.35355339059327373, 0.7071067811865474))):
        with Locations(Location((0, 0, 0), (0, 0, 180))):
            Circle(CIRPATTERN30_COPY_32_SKETCH_R)
    extrude(amount=CIRPATTERN30_COPY_32_DEPTH, mode=Mode.SUBTRACT)

    # CirPattern30 copy 33 sketch → CirPattern30 copy 33 (cut, through all)
    with BuildSketch(Plane(origin=(0, 0, 0), x_dir=(-1, 0, 0), z_dir=(0, 0.7071067811865477, 0.7071067811865474))):
        with Locations(Location((0, 0, 0), (0, 0, 180))):
            Circle(CIRPATTERN30_COPY_33_SKETCH_R)
    extrude(amount=CIRPATTERN30_COPY_33_DEPTH, mode=Mode.SUBTRACT)

    # CirPattern30 copy 34 sketch → CirPattern30 copy 34 (cut, through all)
    with BuildSketch(Plane(origin=(0, 0, 0), x_dir=(-0.5000000000000003, 0.8660254037844384, 0), z_dir=(0.6123724356957945, 0.3535533905932741, 0.7071067811865474))):
        with Locations(Location((0, 0, 0), (0, 0, 180))):
            Circle(CIRPATTERN30_COPY_34_SKETCH_R)
    extrude(amount=CIRPATTERN30_COPY_34_DEPTH, mode=Mode.SUBTRACT)

    # CirPattern30 copy 35 sketch → CirPattern30 copy 35 (cut, through all)
    with BuildSketch(Plane(origin=(0, 0, 0), x_dir=(0.5000000000000002, 0.8660254037844386, 0), z_dir=(0.6123724356957946, -0.35355339059327395, 0.7071067811865474))):
        with Locations(Location((0, 0, 0), (0, 0, 180))):
            Circle(CIRPATTERN30_COPY_35_SKETCH_R)
    extrude(amount=CIRPATTERN30_COPY_35_DEPTH, mode=Mode.SUBTRACT)

    # CirPattern30 copy 36 sketch → CirPattern30 copy 36 (cut, through all)
    with BuildSketch(Plane(origin=(0, 0, 0), x_dir=(0.5000000000000001, -0.8660254037844386, 0), z_dir=(0, 0, 1))):
        with Locations(Location((0, 0, 0), (0, 0, 180))):
            Circle(CIRPATTERN30_COPY_36_SKETCH_R)
    extrude(amount=CIRPATTERN30_COPY_36_DEPTH, mode=Mode.SUBTRACT)

    # CirPattern30 copy 37 sketch → CirPattern30 copy 37 (cut, through all)
    with BuildSketch(Plane(origin=(0, 0, 0), x_dir=(-0.4999999999999998, -0.8660254037844387, 0), z_dir=(0, 0, 1))):
        with Locations(Location((0, 0, 0), (0, 0, 180))):
            Circle(CIRPATTERN30_COPY_37_SKETCH_R)
    extrude(amount=CIRPATTERN30_COPY_37_DEPTH, mode=Mode.SUBTRACT)

    # CirPattern30 copy 38 sketch → CirPattern30 copy 38 (cut, through all)
    with BuildSketch(Plane(origin=(0, 0, 0), x_dir=(-1, 0, 0), z_dir=(0, 0, 1))):
        with Locations(Location((0, 0, 0), (0, 0, 180))):
            Circle(CIRPATTERN30_COPY_38_SKETCH_R)
    extrude(amount=CIRPATTERN30_COPY_38_DEPTH, mode=Mode.SUBTRACT)

    # CirPattern30 copy 39 sketch → CirPattern30 copy 39 (cut, through all)
    with BuildSketch(Plane(origin=(0, 0, 0), x_dir=(-0.5000000000000004, 0.8660254037844384, 0), z_dir=(0, 0, 1))):
        with Locations(Location((0, 0, 0), (0, 0, 180))):
            Circle(CIRPATTERN30_COPY_39_SKETCH_R)
    extrude(amount=CIRPATTERN30_COPY_39_DEPTH, mode=Mode.SUBTRACT)

    # CirPattern30 copy 40 sketch → CirPattern30 copy 40 (cut, through all)
    with BuildSketch(Plane(origin=(0, 0, 0), x_dir=(0.5000000000000001, 0.8660254037844386, 0), z_dir=(0, 0, 1))):
        with Locations(Location((0, 0, 0), (0, 0, 180))):
            Circle(CIRPATTERN30_COPY_40_SKETCH_R)
    extrude(amount=CIRPATTERN30_COPY_40_DEPTH, mode=Mode.SUBTRACT)


solid = part.part
